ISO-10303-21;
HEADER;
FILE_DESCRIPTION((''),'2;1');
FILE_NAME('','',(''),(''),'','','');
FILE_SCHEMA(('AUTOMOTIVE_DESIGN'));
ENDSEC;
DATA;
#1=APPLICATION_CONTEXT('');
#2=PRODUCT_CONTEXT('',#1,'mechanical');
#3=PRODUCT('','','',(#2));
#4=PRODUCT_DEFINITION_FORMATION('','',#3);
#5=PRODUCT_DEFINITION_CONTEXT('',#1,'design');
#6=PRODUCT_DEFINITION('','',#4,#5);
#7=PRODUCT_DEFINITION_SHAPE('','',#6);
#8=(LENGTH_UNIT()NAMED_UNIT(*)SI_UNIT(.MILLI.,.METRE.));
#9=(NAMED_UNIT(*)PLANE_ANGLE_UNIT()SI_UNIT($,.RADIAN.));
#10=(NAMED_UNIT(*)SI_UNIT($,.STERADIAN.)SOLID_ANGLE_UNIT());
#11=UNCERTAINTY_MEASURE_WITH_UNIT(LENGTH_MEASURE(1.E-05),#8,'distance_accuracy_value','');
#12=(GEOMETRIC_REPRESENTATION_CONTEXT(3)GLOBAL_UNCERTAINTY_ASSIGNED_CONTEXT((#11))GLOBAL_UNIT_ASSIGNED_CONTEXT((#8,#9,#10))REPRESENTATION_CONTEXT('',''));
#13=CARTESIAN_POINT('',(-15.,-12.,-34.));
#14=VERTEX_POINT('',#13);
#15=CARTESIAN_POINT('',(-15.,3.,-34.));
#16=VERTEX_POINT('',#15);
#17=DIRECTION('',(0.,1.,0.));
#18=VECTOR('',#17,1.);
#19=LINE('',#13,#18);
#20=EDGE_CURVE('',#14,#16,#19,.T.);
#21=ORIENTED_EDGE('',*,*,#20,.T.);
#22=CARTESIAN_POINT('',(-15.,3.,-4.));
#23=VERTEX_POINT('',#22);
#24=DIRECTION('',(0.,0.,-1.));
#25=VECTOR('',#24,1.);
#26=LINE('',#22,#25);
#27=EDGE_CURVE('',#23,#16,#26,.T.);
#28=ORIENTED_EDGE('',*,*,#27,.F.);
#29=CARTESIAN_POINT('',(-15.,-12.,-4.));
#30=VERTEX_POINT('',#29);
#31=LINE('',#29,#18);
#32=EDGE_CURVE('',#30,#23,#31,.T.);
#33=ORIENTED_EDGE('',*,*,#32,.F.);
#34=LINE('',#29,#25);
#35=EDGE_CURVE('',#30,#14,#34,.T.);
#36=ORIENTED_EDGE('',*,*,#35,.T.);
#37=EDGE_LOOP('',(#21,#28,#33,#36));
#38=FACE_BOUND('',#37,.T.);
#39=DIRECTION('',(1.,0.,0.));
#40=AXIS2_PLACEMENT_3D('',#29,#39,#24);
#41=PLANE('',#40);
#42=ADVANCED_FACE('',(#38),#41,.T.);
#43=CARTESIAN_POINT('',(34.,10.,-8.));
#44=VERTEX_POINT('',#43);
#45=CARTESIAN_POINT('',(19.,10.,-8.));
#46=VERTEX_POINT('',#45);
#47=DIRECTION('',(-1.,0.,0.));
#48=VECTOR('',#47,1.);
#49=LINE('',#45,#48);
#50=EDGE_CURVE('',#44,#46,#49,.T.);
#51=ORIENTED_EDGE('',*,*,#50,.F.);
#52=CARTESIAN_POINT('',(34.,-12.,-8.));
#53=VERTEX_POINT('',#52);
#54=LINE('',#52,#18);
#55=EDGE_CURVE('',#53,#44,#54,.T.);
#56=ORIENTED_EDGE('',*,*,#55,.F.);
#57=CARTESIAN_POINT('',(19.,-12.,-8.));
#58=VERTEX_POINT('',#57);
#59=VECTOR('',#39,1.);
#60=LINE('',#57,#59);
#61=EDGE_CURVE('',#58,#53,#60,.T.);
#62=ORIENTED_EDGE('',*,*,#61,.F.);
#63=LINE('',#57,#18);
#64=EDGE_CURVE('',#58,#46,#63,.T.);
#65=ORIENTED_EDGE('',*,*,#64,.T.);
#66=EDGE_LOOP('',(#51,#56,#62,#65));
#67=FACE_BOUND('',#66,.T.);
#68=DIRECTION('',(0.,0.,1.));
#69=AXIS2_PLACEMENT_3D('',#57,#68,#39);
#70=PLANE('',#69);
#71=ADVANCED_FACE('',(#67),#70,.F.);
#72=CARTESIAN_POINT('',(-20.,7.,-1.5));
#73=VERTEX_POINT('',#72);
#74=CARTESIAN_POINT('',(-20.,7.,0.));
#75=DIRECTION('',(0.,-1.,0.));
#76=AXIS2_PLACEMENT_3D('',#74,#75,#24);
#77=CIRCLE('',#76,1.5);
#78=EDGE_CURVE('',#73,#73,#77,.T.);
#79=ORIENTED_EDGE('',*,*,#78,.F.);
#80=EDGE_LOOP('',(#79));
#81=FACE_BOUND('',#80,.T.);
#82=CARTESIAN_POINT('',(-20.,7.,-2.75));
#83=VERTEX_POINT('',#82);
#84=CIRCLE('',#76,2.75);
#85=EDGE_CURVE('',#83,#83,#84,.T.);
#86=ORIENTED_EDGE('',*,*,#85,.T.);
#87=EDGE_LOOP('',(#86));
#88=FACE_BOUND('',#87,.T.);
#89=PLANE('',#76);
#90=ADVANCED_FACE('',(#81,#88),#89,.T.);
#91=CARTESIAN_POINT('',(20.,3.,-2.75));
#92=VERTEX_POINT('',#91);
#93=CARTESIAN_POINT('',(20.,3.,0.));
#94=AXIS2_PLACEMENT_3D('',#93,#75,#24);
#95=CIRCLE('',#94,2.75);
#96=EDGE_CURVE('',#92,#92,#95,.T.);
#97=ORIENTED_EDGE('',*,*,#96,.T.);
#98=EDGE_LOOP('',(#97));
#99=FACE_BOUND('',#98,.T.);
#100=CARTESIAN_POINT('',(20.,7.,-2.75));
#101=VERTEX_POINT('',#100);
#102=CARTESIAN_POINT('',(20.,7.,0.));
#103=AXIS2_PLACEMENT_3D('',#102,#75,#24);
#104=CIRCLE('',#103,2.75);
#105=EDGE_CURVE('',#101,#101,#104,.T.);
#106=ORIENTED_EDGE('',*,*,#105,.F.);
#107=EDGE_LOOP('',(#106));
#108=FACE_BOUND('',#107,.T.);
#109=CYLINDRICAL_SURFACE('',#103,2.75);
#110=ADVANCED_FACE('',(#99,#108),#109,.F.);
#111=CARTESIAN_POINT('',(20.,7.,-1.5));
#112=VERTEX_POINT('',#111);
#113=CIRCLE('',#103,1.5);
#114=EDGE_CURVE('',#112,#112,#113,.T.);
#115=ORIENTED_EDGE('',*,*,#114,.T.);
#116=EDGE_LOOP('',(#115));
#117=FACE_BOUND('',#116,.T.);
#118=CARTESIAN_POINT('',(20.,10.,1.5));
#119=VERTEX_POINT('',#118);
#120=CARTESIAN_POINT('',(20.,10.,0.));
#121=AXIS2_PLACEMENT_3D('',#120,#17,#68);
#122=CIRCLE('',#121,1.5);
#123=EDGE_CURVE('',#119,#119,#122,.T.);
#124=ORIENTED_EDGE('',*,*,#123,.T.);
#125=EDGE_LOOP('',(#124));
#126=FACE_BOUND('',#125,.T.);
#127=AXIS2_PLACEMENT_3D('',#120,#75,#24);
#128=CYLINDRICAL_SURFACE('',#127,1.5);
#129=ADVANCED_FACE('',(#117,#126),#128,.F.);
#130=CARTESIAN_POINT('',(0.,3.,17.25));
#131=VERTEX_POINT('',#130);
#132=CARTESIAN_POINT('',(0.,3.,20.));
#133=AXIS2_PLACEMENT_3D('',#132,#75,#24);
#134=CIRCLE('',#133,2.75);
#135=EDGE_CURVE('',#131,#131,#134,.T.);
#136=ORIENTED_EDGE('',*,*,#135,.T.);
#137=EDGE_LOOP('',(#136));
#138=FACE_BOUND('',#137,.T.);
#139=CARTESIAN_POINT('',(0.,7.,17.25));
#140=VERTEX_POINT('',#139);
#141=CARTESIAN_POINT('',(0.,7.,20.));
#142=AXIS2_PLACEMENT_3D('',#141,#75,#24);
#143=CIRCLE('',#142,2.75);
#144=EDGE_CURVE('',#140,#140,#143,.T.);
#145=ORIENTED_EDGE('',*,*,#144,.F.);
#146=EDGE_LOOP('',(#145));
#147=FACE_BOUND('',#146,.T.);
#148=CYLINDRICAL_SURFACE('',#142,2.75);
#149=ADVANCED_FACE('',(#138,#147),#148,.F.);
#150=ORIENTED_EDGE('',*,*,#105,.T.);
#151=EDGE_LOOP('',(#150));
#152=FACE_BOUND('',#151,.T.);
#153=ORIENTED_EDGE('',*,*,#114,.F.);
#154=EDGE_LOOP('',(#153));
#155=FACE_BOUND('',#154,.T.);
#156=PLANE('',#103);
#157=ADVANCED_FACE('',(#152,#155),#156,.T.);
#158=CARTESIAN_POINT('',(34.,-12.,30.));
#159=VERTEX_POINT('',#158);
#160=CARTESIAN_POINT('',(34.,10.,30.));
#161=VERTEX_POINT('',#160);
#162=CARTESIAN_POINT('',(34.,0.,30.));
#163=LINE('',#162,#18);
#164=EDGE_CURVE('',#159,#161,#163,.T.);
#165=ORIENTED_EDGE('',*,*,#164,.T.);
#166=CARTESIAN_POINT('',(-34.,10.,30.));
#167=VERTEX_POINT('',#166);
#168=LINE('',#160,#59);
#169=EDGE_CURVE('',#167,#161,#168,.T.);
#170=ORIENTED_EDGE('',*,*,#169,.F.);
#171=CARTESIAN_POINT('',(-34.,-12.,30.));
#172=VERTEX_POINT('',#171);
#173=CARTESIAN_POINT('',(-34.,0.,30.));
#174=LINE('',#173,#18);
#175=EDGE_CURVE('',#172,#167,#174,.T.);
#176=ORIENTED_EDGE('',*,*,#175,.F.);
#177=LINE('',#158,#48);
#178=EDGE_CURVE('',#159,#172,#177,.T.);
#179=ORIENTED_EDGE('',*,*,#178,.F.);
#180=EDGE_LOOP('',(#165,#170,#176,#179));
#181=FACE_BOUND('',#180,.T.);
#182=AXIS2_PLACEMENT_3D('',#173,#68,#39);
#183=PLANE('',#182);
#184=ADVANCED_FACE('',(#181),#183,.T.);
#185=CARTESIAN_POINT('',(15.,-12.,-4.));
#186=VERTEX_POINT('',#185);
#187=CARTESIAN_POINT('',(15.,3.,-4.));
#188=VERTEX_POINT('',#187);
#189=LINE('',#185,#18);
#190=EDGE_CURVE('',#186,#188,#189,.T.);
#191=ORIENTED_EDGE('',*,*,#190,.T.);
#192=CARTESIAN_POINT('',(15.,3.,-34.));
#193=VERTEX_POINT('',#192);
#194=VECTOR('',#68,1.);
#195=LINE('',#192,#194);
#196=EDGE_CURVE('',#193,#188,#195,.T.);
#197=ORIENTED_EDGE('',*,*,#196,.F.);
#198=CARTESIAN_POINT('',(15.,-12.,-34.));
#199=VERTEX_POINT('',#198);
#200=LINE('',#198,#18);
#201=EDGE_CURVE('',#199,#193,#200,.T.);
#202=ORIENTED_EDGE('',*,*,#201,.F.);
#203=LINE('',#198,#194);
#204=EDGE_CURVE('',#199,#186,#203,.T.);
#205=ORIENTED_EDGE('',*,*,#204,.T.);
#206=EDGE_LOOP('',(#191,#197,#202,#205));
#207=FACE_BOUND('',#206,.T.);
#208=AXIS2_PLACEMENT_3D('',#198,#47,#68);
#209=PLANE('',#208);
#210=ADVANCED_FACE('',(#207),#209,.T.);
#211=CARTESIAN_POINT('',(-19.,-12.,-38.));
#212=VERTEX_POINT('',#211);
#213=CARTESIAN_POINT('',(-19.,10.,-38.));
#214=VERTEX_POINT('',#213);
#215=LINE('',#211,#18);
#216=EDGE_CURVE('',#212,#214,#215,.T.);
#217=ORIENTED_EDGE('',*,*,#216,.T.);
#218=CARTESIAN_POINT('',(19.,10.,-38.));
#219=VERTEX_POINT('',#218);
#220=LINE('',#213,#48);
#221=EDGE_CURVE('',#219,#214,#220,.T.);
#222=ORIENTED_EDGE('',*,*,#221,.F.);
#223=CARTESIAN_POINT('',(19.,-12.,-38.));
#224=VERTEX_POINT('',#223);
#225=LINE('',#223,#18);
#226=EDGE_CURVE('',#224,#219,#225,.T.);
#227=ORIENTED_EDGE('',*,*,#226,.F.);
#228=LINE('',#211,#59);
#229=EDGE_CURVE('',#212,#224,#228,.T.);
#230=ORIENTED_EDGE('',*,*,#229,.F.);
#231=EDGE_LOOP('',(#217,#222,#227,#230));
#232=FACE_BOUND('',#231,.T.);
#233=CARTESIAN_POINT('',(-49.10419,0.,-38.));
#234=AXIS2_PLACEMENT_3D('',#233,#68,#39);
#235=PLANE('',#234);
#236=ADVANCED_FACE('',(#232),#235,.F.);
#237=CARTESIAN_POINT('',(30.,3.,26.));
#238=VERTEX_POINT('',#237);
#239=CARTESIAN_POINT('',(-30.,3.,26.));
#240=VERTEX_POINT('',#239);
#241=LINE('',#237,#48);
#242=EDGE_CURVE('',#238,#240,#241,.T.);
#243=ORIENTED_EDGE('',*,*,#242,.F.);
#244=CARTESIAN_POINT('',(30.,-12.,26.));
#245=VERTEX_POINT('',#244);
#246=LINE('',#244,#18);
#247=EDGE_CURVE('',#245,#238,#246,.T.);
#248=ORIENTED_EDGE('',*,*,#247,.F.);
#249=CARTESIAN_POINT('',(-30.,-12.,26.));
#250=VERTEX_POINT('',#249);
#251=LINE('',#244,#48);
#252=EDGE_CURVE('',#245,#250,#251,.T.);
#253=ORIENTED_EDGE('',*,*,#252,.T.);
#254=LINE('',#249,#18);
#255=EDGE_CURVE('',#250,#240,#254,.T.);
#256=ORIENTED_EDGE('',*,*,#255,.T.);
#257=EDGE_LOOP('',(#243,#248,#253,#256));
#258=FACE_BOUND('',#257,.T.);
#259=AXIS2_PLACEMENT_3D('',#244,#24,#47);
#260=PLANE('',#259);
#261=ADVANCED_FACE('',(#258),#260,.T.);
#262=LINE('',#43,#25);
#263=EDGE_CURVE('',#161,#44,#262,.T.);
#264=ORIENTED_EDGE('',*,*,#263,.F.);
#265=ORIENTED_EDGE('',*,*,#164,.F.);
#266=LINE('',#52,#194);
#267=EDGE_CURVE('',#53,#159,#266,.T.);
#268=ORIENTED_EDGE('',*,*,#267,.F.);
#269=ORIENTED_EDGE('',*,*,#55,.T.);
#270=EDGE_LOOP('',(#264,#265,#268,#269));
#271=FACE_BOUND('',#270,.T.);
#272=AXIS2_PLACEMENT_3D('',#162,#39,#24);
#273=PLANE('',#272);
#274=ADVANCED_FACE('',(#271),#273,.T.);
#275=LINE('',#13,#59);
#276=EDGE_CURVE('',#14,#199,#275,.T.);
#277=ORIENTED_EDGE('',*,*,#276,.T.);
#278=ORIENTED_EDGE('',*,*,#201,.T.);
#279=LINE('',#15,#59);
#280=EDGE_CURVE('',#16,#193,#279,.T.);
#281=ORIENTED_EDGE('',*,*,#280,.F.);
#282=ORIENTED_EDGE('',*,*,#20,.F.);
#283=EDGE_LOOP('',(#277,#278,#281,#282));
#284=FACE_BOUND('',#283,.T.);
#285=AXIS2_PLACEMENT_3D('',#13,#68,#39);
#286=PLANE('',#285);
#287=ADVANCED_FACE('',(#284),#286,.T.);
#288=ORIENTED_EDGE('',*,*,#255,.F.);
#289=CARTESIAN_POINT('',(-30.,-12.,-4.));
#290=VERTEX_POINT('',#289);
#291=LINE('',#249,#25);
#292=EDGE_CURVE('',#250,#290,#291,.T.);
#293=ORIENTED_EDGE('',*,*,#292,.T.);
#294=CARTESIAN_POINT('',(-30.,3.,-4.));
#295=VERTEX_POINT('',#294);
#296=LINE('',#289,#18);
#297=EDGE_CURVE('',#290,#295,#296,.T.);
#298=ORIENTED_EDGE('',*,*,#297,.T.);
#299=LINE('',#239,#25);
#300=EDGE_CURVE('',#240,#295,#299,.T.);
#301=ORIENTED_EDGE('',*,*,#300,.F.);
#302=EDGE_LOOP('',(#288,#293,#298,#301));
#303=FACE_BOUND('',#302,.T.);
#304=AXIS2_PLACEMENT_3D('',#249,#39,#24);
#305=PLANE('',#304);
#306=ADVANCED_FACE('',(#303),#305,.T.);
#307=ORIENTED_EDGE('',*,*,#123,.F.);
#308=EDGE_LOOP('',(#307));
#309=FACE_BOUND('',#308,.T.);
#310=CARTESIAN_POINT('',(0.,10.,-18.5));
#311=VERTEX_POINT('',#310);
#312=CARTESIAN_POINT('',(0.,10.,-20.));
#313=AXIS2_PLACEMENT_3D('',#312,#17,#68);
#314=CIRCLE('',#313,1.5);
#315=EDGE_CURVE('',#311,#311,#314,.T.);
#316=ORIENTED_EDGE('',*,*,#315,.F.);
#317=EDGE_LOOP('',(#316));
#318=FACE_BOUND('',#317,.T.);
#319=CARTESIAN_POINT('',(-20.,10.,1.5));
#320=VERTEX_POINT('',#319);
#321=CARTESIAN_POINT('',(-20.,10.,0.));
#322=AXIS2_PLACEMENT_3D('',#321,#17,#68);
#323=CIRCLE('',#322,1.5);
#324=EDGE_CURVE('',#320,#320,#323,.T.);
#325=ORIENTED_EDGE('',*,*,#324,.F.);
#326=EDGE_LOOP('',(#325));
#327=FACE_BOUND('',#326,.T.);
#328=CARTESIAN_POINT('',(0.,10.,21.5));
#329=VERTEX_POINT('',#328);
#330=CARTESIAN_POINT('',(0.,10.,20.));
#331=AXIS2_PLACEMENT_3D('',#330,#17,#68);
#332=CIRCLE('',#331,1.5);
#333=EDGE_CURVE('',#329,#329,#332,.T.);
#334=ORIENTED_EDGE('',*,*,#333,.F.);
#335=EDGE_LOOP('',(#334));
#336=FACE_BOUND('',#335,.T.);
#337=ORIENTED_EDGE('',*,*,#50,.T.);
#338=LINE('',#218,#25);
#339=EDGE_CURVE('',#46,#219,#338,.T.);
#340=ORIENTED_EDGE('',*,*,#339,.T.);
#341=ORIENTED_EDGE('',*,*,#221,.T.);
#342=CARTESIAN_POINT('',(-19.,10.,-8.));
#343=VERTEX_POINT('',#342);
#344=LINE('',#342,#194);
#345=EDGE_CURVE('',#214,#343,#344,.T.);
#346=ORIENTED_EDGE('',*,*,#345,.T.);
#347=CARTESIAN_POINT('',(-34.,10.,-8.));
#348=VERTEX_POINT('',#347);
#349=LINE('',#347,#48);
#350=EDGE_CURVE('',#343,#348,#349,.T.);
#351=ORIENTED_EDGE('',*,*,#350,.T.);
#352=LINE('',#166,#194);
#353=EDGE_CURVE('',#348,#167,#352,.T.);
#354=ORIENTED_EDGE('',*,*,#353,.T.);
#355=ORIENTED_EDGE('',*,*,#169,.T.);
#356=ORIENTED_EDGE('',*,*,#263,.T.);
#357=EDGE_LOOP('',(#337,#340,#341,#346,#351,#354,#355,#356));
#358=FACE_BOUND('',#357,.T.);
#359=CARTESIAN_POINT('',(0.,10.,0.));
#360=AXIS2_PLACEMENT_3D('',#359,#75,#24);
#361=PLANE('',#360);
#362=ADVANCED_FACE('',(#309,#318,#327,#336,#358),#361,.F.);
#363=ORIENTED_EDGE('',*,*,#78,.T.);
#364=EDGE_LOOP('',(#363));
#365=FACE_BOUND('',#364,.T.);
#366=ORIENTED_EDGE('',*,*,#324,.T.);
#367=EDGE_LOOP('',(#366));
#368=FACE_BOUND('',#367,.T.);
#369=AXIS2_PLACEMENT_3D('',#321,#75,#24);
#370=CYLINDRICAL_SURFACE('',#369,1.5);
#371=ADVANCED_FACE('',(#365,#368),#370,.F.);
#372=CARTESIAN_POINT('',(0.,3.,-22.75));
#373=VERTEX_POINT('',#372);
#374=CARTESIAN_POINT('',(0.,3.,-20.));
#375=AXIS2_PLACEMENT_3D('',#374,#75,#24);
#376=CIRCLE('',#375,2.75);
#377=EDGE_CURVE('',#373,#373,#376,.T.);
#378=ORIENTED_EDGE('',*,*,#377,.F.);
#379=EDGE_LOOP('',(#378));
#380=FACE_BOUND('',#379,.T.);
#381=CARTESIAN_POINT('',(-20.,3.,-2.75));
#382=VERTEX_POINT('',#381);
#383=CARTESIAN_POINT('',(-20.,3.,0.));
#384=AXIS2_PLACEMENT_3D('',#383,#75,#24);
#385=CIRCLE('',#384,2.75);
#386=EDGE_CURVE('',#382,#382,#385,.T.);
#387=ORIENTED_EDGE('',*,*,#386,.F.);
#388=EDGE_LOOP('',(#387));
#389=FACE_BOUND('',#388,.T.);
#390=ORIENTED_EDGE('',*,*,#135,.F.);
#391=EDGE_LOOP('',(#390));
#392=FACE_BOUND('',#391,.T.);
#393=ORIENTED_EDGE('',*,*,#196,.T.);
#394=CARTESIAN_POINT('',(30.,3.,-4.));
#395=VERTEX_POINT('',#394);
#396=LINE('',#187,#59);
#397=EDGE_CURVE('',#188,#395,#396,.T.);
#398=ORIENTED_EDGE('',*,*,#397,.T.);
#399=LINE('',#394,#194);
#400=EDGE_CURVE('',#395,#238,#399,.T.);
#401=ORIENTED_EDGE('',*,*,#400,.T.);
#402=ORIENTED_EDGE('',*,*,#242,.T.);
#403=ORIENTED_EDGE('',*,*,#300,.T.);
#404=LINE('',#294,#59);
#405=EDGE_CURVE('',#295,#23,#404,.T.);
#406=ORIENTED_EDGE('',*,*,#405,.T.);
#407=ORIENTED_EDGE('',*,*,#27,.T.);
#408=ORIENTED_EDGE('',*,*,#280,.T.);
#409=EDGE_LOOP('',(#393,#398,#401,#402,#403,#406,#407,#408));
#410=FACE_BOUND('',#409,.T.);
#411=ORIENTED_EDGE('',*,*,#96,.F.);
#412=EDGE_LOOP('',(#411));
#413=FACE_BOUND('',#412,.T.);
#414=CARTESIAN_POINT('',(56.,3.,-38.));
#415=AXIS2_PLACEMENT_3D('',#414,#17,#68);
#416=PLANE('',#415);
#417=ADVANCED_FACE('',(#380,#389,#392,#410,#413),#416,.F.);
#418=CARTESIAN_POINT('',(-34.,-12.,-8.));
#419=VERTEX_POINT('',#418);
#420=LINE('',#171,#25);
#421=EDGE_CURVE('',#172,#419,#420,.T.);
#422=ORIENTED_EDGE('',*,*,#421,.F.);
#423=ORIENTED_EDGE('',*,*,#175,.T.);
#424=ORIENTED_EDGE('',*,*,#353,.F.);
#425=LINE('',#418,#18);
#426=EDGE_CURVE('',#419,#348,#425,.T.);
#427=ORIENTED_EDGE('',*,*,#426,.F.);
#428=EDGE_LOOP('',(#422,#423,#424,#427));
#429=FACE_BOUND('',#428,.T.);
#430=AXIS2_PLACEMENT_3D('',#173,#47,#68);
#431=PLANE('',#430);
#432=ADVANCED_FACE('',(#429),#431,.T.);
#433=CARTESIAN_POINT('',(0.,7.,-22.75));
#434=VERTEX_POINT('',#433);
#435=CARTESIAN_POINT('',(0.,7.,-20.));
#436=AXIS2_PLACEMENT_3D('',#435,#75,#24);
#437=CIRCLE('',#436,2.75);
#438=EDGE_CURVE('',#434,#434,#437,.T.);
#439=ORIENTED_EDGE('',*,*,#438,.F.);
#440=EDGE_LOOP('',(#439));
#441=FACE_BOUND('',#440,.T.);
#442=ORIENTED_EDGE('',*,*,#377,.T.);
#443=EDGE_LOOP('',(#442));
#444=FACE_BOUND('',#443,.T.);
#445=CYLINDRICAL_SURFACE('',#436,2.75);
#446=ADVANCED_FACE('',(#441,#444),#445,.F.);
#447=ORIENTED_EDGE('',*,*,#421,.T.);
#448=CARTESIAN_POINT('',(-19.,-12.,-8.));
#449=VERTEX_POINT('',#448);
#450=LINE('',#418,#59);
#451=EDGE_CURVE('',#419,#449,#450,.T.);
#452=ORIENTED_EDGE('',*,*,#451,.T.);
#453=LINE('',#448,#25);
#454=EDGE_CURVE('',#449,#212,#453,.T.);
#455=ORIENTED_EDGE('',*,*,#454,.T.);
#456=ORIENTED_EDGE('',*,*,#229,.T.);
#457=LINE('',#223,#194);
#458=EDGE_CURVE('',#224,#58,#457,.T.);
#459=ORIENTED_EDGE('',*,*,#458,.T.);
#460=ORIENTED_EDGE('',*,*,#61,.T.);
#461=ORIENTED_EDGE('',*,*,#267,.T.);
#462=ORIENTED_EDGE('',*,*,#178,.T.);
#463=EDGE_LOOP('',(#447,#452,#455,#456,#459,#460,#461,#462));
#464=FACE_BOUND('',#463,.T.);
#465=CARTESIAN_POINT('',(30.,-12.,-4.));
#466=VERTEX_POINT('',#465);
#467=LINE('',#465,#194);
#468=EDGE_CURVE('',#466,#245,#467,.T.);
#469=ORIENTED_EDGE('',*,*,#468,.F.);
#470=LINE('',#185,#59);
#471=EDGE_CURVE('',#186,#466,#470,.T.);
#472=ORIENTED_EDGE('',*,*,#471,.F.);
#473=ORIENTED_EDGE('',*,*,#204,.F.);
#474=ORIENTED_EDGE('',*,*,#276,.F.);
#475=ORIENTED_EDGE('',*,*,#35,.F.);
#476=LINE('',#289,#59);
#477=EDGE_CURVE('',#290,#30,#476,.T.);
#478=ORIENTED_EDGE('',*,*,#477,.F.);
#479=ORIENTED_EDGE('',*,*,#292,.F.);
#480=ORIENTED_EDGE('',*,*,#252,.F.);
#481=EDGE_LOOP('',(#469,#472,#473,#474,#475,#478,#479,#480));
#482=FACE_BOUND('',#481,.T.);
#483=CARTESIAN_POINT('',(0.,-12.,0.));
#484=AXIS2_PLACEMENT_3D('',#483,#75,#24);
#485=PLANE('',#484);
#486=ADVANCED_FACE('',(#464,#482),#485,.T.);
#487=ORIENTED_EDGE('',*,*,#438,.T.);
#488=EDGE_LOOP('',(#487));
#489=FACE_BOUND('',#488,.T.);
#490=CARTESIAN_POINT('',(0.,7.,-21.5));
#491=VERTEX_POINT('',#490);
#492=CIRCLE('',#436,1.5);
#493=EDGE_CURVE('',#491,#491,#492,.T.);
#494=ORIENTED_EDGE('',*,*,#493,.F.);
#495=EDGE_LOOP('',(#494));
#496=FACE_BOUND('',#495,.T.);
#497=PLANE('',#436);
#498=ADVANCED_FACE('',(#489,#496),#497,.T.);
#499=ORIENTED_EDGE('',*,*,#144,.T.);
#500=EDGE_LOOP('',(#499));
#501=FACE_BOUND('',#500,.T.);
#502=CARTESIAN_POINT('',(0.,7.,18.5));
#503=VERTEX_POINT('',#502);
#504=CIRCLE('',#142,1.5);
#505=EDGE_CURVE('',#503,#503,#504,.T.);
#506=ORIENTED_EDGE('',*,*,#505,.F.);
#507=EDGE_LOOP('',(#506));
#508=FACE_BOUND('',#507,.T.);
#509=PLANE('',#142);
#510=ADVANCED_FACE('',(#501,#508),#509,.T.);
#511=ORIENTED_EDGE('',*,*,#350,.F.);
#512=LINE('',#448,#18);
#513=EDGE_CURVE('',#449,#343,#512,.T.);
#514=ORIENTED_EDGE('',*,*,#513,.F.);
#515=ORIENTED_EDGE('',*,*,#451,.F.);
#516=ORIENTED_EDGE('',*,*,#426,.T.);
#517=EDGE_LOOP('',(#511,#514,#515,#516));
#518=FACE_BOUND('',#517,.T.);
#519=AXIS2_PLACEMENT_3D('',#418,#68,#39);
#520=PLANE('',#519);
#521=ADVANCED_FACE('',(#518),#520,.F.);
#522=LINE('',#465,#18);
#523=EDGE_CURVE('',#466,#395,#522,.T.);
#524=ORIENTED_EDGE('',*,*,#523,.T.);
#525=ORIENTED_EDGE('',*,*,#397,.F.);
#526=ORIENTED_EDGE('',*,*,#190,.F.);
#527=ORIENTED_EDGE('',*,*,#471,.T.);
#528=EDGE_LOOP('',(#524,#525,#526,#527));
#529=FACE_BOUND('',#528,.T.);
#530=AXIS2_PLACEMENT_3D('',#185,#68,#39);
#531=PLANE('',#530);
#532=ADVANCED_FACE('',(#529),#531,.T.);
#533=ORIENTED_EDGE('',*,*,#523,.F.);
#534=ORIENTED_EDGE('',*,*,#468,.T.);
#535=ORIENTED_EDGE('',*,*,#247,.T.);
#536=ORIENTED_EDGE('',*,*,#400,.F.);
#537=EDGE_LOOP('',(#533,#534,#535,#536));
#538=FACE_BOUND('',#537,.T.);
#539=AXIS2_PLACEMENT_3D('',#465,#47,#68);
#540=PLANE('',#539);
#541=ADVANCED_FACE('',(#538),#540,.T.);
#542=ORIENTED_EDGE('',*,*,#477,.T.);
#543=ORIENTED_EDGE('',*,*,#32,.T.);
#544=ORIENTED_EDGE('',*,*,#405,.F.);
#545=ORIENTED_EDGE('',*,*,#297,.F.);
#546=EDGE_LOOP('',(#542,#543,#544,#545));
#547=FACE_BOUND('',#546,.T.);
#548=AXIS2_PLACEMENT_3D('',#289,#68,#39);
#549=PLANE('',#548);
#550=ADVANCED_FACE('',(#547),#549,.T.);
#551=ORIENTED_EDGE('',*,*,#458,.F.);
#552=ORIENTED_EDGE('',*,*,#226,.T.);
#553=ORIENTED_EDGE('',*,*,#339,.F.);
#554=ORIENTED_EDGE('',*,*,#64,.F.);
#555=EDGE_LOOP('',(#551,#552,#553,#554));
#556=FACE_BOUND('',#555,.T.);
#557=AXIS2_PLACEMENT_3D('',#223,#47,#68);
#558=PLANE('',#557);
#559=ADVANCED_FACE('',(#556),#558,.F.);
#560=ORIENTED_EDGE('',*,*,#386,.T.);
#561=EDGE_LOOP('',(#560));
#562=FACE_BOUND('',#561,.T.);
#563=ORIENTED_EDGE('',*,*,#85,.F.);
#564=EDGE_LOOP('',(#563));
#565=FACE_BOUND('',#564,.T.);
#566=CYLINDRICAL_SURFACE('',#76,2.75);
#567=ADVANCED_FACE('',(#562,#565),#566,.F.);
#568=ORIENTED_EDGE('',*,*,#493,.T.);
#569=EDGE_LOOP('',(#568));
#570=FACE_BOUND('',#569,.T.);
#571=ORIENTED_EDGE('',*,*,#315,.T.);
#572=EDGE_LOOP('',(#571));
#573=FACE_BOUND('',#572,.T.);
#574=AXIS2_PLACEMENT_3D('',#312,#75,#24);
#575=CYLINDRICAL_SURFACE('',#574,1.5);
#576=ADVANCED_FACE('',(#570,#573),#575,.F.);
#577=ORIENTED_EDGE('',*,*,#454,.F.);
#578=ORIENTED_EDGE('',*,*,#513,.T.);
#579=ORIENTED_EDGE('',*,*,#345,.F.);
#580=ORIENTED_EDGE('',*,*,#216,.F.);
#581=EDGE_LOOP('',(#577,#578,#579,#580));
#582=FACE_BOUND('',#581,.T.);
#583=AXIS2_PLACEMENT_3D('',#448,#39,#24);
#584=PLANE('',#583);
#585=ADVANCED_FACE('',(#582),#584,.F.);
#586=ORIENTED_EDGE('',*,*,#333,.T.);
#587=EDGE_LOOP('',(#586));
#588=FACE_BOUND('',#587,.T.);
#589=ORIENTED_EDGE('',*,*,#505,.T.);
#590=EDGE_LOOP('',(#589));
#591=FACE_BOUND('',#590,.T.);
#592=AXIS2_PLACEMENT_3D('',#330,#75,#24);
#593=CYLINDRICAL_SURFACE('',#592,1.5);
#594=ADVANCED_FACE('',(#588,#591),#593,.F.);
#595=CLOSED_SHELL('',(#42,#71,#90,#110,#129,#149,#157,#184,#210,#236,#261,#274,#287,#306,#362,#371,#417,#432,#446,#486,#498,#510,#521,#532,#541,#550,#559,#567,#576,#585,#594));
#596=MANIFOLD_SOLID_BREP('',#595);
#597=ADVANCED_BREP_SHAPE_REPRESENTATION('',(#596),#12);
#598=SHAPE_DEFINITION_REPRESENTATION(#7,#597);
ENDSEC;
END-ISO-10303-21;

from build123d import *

# Parameters (mm, degrees)
CROQUIS3_R               = 11
SALIENTE_EXTRUIR1_DEPTH  = 6
CROQUIS5_R               = 1.7
CORTAR_EXTRUIR2_DEPTH    = 62.100641025
SALIENTE_EXTRUIR2_START  = -6
CROQUIS6_R               = 11
CROQUIS6_R_2             = 10.875
SALIENTE_EXTRUIR2_DEPTH  = 6
SALIENTE_EXTRUIR3_START  = -6
CROQUIS7_R               = 10.875
SALIENTE_EXTRUIR3_DEPTH  = 6
CROQUIS8_W               = 68
CROQUIS8_H               = 4
SALIENTE_EXTRUIR5_DEPTH  = 6
CROQUIS9_W               = 88.033568274
CROQUIS9_H               = 18.476688198
CORTAR_EXTRUIR3_DEPTH    = 6
CROQUIS10_W              = 21.550300015
CROQUIS10_H              = 64
CORTAR_EXTRUIR4_DEPTH    = 6
CROQUIS11_W              = 19.085610936
CROQUIS11_H              = 64
CORTAR_EXTRUIR5_DEPTH    = 6
CROQUIS12_W              = 103.706532793
CROQUIS12_H              = 25.59484813
CORTAR_EXTRUIR6_DEPTH    = 6
SALIENTE_EXTRUIR7_DEPTH  = 6
SALIENTE_EXTRUIR8_START  = -6
SALIENTE_EXTRUIR8_DEPTH  = 6
CROQUIS15_W              = 68
CROQUIS15_H              = 3
CORTAR_EXTRUIR7_DEPTH    = 90
SALIENTE_EXTRUIR9_DEPTH  = 15
CROQUIS17_W              = 15
CROQUIS17_H              = 30
CORTAR_EXTRUIR8_DEPTH    = 15
CROQUIS18_W              = 23.220677269
CROQUIS18_H              = 33.839021269
CORTAR_EXTRUIR10_DEPTH   = 15
CROQUIS19_R              = 1.5
SALIENTE_EXTRUIR10_DEPTH = 4
CROQUIS20_R              = 2.75
CORTAR_EXTRUIR12_DEPTH   = 4


with BuildPart() as part:
    # Croquis3 → Saliente-Extruir1 (new body)
    with BuildSketch(Plane(origin=(0, 0, 0), x_dir=(1, 0, 0), z_dir=(0, 1, 0))):
        with BuildLine():
            ThreePointArc((-42.801000552, 4.132112265), (-40.664966724, 3.179307113), (-38.41511618, 2.540049182))
            ThreePointArc((-38.41511618, 2.540049182), (-38.470748704, 1.474616944), (-38.496837459, 0.408052268))
            ThreePointArc((-38.496837459, 0.408052268), (-40.789021211, -0.057105575), (-42.991724013, -0.843603213))
            ThreePointArc((-42.991724013, -0.843603213), (-42.968445785, -1.647017549), (-42.930154943, -2.449856438))
            ThreePointArc((-42.930154943, -2.449856438), (-40.673709502, -3.065431082), (-38.352643988, -3.353759106))
            ThreePointArc((-38.352643988, -3.353759106), (-38.244987054, -4.415197194), (-38.107959725, -5.473244614))
            ThreePointArc((-38.107959725, -5.473244614), (-40.302274043, -6.282851213), (-42.3591038, -7.396372439))
            ThreePointArc((-42.3591038, -7.396372439), (-42.21345776, -8.186817694), (-42.053062888, -8.974402582))
            ThreePointArc((-42.053062888, -8.974402582), (-39.729095003, -9.238318171), (-37.391218326, -9.168958123))
            ThreePointArc((-37.391218326, -9.168958123), (-37.122795321, -10.201522853), (-36.825863714, -11.226253282))
            ThreePointArc((-36.825863714, -11.226253282), (-38.87087573, -12.361332145), (-40.733622096, -13.775776963))
            ThreePointArc((-40.733622096, -13.775776963), (-40.469022063, -14.534725772), (-40.190282682, -15.288596336))
            ThreePointArc((-40.190282682, -15.288596336), (-37.85326419, -15.194666912), (-35.553374199, -14.769244533))
            ThreePointArc((-35.553374199, -14.769244533), (-35.130476731, -15.748733462), (-34.680600669, -16.716128087))
            ThreePointArc((-34.680600669, -16.716128087), (-36.528377035, -18.150073928), (-38.153378814, -19.832288952))
            ThreePointArc((-38.153378814, -19.832288952), (-37.776026789, -20.541952196), (-37.385476313, -21.24443835))
            ThreePointArc((-37.385476313, -21.24443835), (-35.090184947, -20.794865539), (-32.882189114, -20.023352369))
            ThreePointArc((-32.882189114, -20.023352369), (-32.314729541, -20.926807107), (-31.722453739, -21.814191019))
            ThreePointArc((-31.722453739, -21.814191019), (-33.329684142, -23.513393361), (-34.67885267, -25.423948896))
            ThreePointArc((-34.67885267, -25.423948896), (-34.197593465, -26.067692672), (-33.704386066, -26.702328735))
            ThreePointArc((-33.704386066, -26.702328735), (-31.50462151, -25.907650142), (-29.440273385, -24.808129797))
            ThreePointArc((-29.440273385, -24.808129797), (-28.741552479, -25.614374131), (-28.020759379, -26.400947801))
            ThreePointArc((-28.020759379, -26.400947801), (-29.349771703, -28.325578783), (-30.391483612, -30.419693027))
            ThreePointArc((-30.391483612, -30.419693027), (-29.817597534, -30.982428525), (-29.233293577, -31.534339166))
            ThreePointArc((-29.233293577, -31.534339166), (-27.180616447, -30.413181385), (-25.308302601, -29.011425688))
            ThreePointArc((-25.308302601, -29.011425688), (-24.494697787, -29.701561934), (-23.66228217, -30.368888744))
            ThreePointArc((-23.66228217, -30.368888744), (-24.68192549, -32.473836646), (-25.391763937, -34.702425336))
            ThreePointArc((-25.391763937, -34.702425336), (-24.738702389, -35.170962513), (-24.076997462, -35.627211415))
            ThreePointArc((-24.076997462, -35.627211415), (-22.219520771, -34.205853433), (-20.583126654, -32.53471835))
            ThreePointArc((-20.583126654, -32.53471835), (-19.67370814, -33.092570299), (-18.749181121, -33.625008674))
            ThreePointArc((-18.749181121, -33.625008674), (-19.435555863, -35.860935301), (-19.796882836, -38.171762207))
            ThreePointArc((-19.796882836, -38.171762207), (-19.079953028, -38.535118949), (-18.356356934, -38.885012024))
            ThreePointArc((-18.356356934, -38.885012024), (-16.737618362, -37.196769268), (-15.375499664, -35.29542479))
            ThreePointArc((-15.375499664, -35.29542479), (-14.391583449, -35.707916865), (-13.396615158, -36.092986899))
            ThreePointArc((-13.396615158, -36.092986899), (-13.73363328, -38.407484027), (-13.73797958, -40.746385325))
            ThreePointArc((-13.73797958, -40.746385325), (-12.97398574, -40.996044858), (-12.205458958, -41.231380909))
            ThreePointArc((-12.205458958, -41.231380909), (-10.863400364, -39.315824358), (-9.807483994, -37.228836387))
            ThreePointArc((-9.807483994, -37.228836387), (-8.772132239, -37.486300124), (-7.73004389, -37.714976103))
            ThreePointArc((-7.73004389, -37.714976103), (-7.709805972, -40.053793881), (-7.357069727, -42.365947706))
            ThreePointArc((-7.357069727, -42.365947706), (-6.563919221, -42.496058223), (-5.768475368, -42.611321171))
            ThreePointArc((-5.768475368, -42.611321171), (-4.734553468, -40.513349847), (-4.009589211, -38.289635613))
            ThreePointArc((-4.009589211, -38.289635613), (-2.947069685, -38.38603628), (-1.882286945, -38.452958233))
            ThreePointArc((-1.882286945, -38.452958233), (-1.505267347, -40.761276754), (-0.803716395, -42.992488181))
            ThreePointArc((-0.803716395, -42.992488181), (0, -43), (0.803716395, -42.992488181))
            ThreePointArc((0.803716395, -42.992488181), (1.505267347, -40.761276754), (1.882286945, -38.452958233))
            ThreePointArc((1.882286945, -38.452958233), (2.947069685, -38.38603628), (4.009589211, -38.289635613))
            ThreePointArc((4.009589211, -38.289635613), (4.734553468, -40.513349847), (5.768475368, -42.611321171))
            ThreePointArc((5.768475368, -42.611321171), (6.563919221, -42.496058223), (7.357069727, -42.365947706))
            ThreePointArc((7.357069727, -42.365947706), (7.709805972, -40.053793881), (7.73004389, -37.714976103))
            ThreePointArc((7.73004389, -37.714976103), (8.772132239, -37.486300124), (9.807483994, -37.228836387))
            ThreePointArc((9.807483994, -37.228836387), (10.863400364, -39.315824358), (12.205458958, -41.231380909))
            ThreePointArc((12.205458958, -41.231380909), (12.97398574, -40.996044858), (13.73797958, -40.746385325))
            ThreePointArc((13.73797958, -40.746385325), (13.73363328, -38.407484027), (13.396615158, -36.092986899))
            ThreePointArc((13.396615158, -36.092986899), (14.391583449, -35.707916865), (15.375499664, -35.29542479))
            ThreePointArc((15.375499664, -35.29542479), (16.737618362, -37.196769268), (18.356356934, -38.885012024))
            ThreePointArc((18.356356934, -38.885012024), (19.079953028, -38.535118949), (19.796882836, -38.171762207))
            ThreePointArc((19.796882836, -38.171762207), (19.435555863, -35.860935301), (18.749181121, -33.625008674))
            ThreePointArc((18.749181121, -33.625008674), (19.67370814, -33.092570299), (20.583126654, -32.53471835))
            ThreePointArc((20.583126654, -32.53471835), (22.219520771, -34.205853433), (24.076997462, -35.627211415))
            ThreePointArc((24.076997462, -35.627211415), (24.738702389, -35.170962513), (25.391763937, -34.702425336))
            ThreePointArc((25.391763937, -34.702425336), (24.68192549, -32.473836646), (23.66228217, -30.368888744))
            ThreePointArc((23.66228217, -30.368888744), (24.494697787, -29.701561934), (25.308302601, -29.011425688))
            ThreePointArc((25.308302601, -29.011425688), (27.180616447, -30.413181385), (29.233293577, -31.534339166))
            ThreePointArc((29.233293577, -31.534339166), (29.817597534, -30.982428525), (30.391483612, -30.419693027))
            ThreePointArc((30.391483612, -30.419693027), (29.349771703, -28.325578783), (28.020759379, -26.400947801))
            ThreePointArc((28.020759379, -26.400947801), (28.741552479, -25.614374131), (29.440273385, -24.808129797))
            ThreePointArc((29.440273385, -24.808129797), (31.50462151, -25.907650142), (33.704386066, -26.702328735))
            ThreePointArc((33.704386066, -26.702328735), (34.197593465, -26.067692672), (34.67885267, -25.423948896))
            ThreePointArc((34.67885267, -25.423948896), (33.329684142, -23.513393361), (31.722453739, -21.814191019))
            ThreePointArc((31.722453739, -21.814191019), (32.314729541, -20.926807107), (32.882189114, -20.023352369))
            ThreePointArc((32.882189114, -20.023352369), (35.090184947, -20.794865539), (37.385476313, -21.24443835))
            ThreePointArc((37.385476313, -21.24443835), (37.776026789, -20.541952196), (38.153378814, -19.832288952))
            ThreePointArc((38.153378814, -19.832288952), (36.528377035, -18.150073928), (34.680600669, -16.716128087))
            ThreePointArc((34.680600669, -16.716128087), (35.130476731, -15.748733462), (35.553374199, -14.769244533))
            ThreePointArc((35.553374199, -14.769244533), (37.85326419, -15.194666912), (40.190282682, -15.288596336))
            ThreePointArc((40.190282682, -15.288596336), (40.469022063, -14.534725772), (40.733622096, -13.775776963))
            ThreePointArc((40.733622096, -13.775776963), (38.87087573, -12.361332145), (36.825863714, -11.226253282))
            ThreePointArc((36.825863714, -11.226253282), (37.122795321, -10.201522853), (37.391218326, -9.168958123))
            ThreePointArc((37.391218326, -9.168958123), (39.729095003, -9.238318171), (42.053062888, -8.974402582))
            ThreePointArc((42.053062888, -8.974402582), (42.21345776, -8.186817694), (42.3591038, -7.396372439))
            ThreePointArc((42.3591038, -7.396372439), (40.302274043, -6.282851213), (38.107959725, -5.473244614))
            ThreePointArc((38.107959725, -5.473244614), (38.244987054, -4.415197194), (38.352643988, -3.353759106))
            ThreePointArc((38.352643988, -3.353759106), (40.673709502, -3.065431082), (42.930154943, -2.449856438))
            ThreePointArc((42.930154943, -2.449856438), (42.968445785, -1.647017549), (42.991724013, -0.843603213))
            ThreePointArc((42.991724013, -0.843603213), (40.789021211, -0.057105575), (38.496837459, 0.408052268))
            ThreePointArc((38.496837459, 0.408052268), (38.470748704, 1.474616944), (38.41511618, 2.540049182))
            ThreePointArc((38.41511618, 2.540049182), (40.664966724, 3.179307113), (42.801000552, 4.132112265))
            ThreePointArc((42.801000552, 4.132112265), (42.71628986, 4.931387292), (42.616654653, 5.728939357))
            ThreePointArc((42.616654653, 5.728939357), (40.319708293, 6.16997857), (37.983381952, 6.279784751))
            ThreePointArc((37.983381952, 6.279784751), (37.794788612, 7.329867312), (37.577170609, 8.37432087))
            ThreePointArc((37.577170609, 8.37432087), (39.703071592, 9.349525044), (41.668626984, 10.617227758))
            ThreePointArc((41.668626984, 10.617227758), (41.462900304, 11.394204594), (41.242687029, 12.167200444))
            ThreePointArc((41.242687029, 12.167200444), (38.905335586, 12.252443647), (36.579628164, 12.004324402))
            ThreePointArc((36.579628164, 12.004324402), (36.232950707, 13.013311802), (35.858448007, 14.012305575))
            ThreePointArc((35.858448007, 14.012305575), (37.810570112, 15.300598033), (39.559576116, 16.853484432))
            ThreePointArc((39.559576116, 16.853484432), (39.237655508, 17.589951398), (38.902025776, 18.320272666))
            ThreePointArc((38.902025776, 18.320272666), (36.579054788, 18.047721829), (34.318478896, 17.447492864))
            ThreePointArc((34.318478896, 17.447492864), (33.821843148, 18.391735293), (33.299233776, 19.321853713))
            ThreePointArc((33.299233776, 19.321853713), (35.031820916, 20.893037971), (36.523282314, 22.694709714))
            ThreePointArc((36.523282314, 22.694709714), (36.092713324, 23.37340465), (35.64953401, 24.043933223))
            ThreePointArc((35.64953401, 24.043933223), (33.395391948, 23.419976708), (31.25293357, 22.48170688))
            ThreePointArc((31.25293357, 22.48170688), (30.617980251, 23.339072097), (29.959513729, 24.178513977))
            ThreePointArc((29.959513729, 24.178513977), (31.431955529, 25.995762808), (32.63091373, 28.003990237))
            ThreePointArc((32.63091373, 28.003990237), (32.101788529, 28.609005107), (31.561447383, 29.204024365))
            ThreePointArc((31.561447383, 29.204024365), (29.428969426, 28.243287183), (27.45484597, 26.988968742))
            ThreePointArc((27.45484597, 26.988968742), (26.696457848, 27.739360832), (25.917568072, 28.468450366))
            ThreePointArc((25.917568072, 28.468450366), (27.095351745, 30.489168998), (27.973704184, 32.656880963))
            ThreePointArc((27.973704184, 32.656880963), (27.35842502, 33.174034732), (26.733587179, 33.679597927))
            ThreePointArc((26.733587179, 33.679597927), (24.772756803, 32.404598945), (23.013240049, 30.863632052))
            ThreePointArc((23.013240049, 30.863632052), (22.1491931, 31.48946246), (21.268136586, 32.091110407))
            ThreePointArc((21.268136586, 32.091110407), (22.123655881, 34.267934907), (22.660814722, 36.544322078))
            ThreePointArc((22.660814722, 36.544322078), (21.973803216, 36.9614931), (21.27911435, 37.36575026))
            ThreePointArc((21.27911435, 37.36575026), (19.535891757, 35.806374372), (18.032223288, 34.014877985))
            ThreePointArc((18.032223288, 34.014877985), (17.082770038, 34.501477777), (16.120198005, 34.961582019))
            ThreePointArc((16.120198005, 34.961582019), (16.633400275, 37.243489467), (16.816774969, 39.575195257))
            ThreePointArc((16.816774969, 39.575195257), (16.074134089, 39.882605397), (15.325877117, 40.176081076))
            ThreePointArc((15.325877117, 40.176081076), (13.841121966, 38.368878731), (12.628546495, 36.368844007))
            ThreePointArc((12.628546495, 36.368844007), (11.615941325, 36.704807698), (10.594415646, 37.012583781))
            ThreePointArc((10.594415646, 37.012583781), (10.753271864, 39.3460882), (10.578564264, 41.678459402))
            ThreePointArc((10.578564264, 41.678459402), (9.797700883, 41.868903227), (9.013414313, 42.044718603))
            ThreePointArc((9.013414313, 42.044718603), (7.821928008, 40.032049093), (6.928867276, 37.870355151))
            ThreePointArc((6.928867276, 37.870355151), (5.876844793, 38.047808035), (4.820309163, 38.196041949))
            ThreePointArc((4.820309163, 38.196041949), (4.621095874, 40.526447973), (4.092400979, 42.804815783))
            ThreePointArc((4.092400979, 42.804815783), (3.291617872, 42.873829451), (2.489684717, 42.927863562))
            ThreePointArc((2.489684717, 42.927863562), (1.619394686, 40.756902154), (1.066781281, 38.484217268))
            ThreePointArc((1.066781281, 38.484217268), (0, 38.499), (-1.066781281, 38.484217268))
            ThreePointArc((-1.066781281, 38.484217268), (-1.619394686, 40.756902154), (-2.489684717, 42.927863562))
            ThreePointArc((-2.489684717, 42.927863562), (-3.291617872, 42.873829451), (-4.092400979, 42.804815783))
            ThreePointArc((-4.092400979, 42.804815783), (-4.621095874, 40.526447973), (-4.820309163, 38.196041949))
            ThreePointArc((-4.820309163, 38.196041949), (-5.876844793, 38.047808035), (-6.928867276, 37.870355151))
            ThreePointArc((-6.928867276, 37.870355151), (-7.821928008, 40.032049093), (-9.013414313, 42.044718603))
            ThreePointArc((-9.013414313, 42.044718603), (-9.797700883, 41.868903227), (-10.578564264, 41.678459402))
            ThreePointArc((-10.578564264, 41.678459402), (-10.753271864, 39.3460882), (-10.594415646, 37.012583781))
            ThreePointArc((-10.594415646, 37.012583781), (-11.615941325, 36.704807698), (-12.628546495, 36.368844007))
            ThreePointArc((-12.628546495, 36.368844007), (-13.841121966, 38.368878731), (-15.325877117, 40.176081076))
            ThreePointArc((-15.325877117, 40.176081076), (-16.074134089, 39.882605397), (-16.816774969, 39.575195257))
            ThreePointArc((-16.816774969, 39.575195257), (-16.633400275, 37.243489467), (-16.120198005, 34.961582019))
            ThreePointArc((-16.120198005, 34.961582019), (-17.082770038, 34.501477777), (-18.032223288, 34.014877985))
            ThreePointArc((-18.032223288, 34.014877985), (-19.535891757, 35.806374372), (-21.27911435, 37.36575026))
            ThreePointArc((-21.27911435, 37.36575026), (-21.973803216, 36.9614931), (-22.660814722, 36.544322078))
            ThreePointArc((-22.660814722, 36.544322078), (-22.123655881, 34.267934907), (-21.268136586, 32.091110407))
            ThreePointArc((-21.268136586, 32.091110407), (-22.1491931, 31.48946246), (-23.013240049, 30.863632052))
            ThreePointArc((-23.013240049, 30.863632052), (-24.772756803, 32.404598945), (-26.733587179, 33.679597927))
            ThreePointArc((-26.733587179, 33.679597927), (-27.35842502, 33.174034732), (-27.973704184, 32.656880963))
            ThreePointArc((-27.973704184, 32.656880963), (-27.095351745, 30.489168998), (-25.917568072, 28.468450366))
            ThreePointArc((-25.917568072, 28.468450366), (-26.696457848, 27.739360832), (-27.45484597, 26.988968742))
            ThreePointArc((-27.45484597, 26.988968742), (-29.428969426, 28.243287183), (-31.561447383, 29.204024364))
            ThreePointArc((-31.561447383, 29.204024364), (-32.101788529, 28.609005107), (-32.63091373, 28.003990237))
            ThreePointArc((-32.63091373, 28.003990237), (-31.431955529, 25.995762808), (-29.959513729, 24.178513977))
            ThreePointArc((-29.959513729, 24.178513977), (-30.617980251, 23.339072097), (-31.25293357, 22.48170688))
            ThreePointArc((-31.25293357, 22.48170688), (-33.395391948, 23.419976708), (-35.64953401, 24.043933223))
            ThreePointArc((-35.64953401, 24.043933223), (-36.092713324, 23.37340465), (-36.523282314, 22.694709714))
            ThreePointArc((-36.523282314, 22.694709714), (-35.031820916, 20.893037971), (-33.299233776, 19.321853713))
            ThreePointArc((-33.299233776, 19.321853713), (-33.821843148, 18.391735293), (-34.318478896, 17.447492864))
            ThreePointArc((-34.318478896, 17.447492864), (-36.579054788, 18.047721829), (-38.902025776, 18.320272666))
            ThreePointArc((-38.902025776, 18.320272666), (-39.237655508, 17.589951398), (-39.559576116, 16.853484432))
            ThreePointArc((-39.559576116, 16.853484432), (-37.810570112, 15.300598033), (-35.858448007, 14.012305575))
            ThreePointArc((-35.858448007, 14.012305575), (-36.232950707, 13.013311802), (-36.579628164, 12.004324402))
            ThreePointArc((-36.579628164, 12.004324402), (-38.905335586, 12.252443647), (-41.242687029, 12.167200444))
            ThreePointArc((-41.242687029, 12.167200444), (-41.462900304, 11.394204594), (-41.668626984, 10.617227758))
            ThreePointArc((-41.668626984, 10.617227758), (-39.703071592, 9.349525044), (-37.577170609, 8.37432087))
            ThreePointArc((-37.577170609, 8.37432087), (-37.794788612, 7.329867312), (-37.983381952, 6.279784751))
            ThreePointArc((-37.983381952, 6.279784751), (-40.319708293, 6.16997857), (-42.616654653, 5.728939357))
            ThreePointArc((-42.616654653, 5.728939357), (-42.71628986, 4.931387292), (-42.801000552, 4.132112265))
        make_face()
        with Locations(Location((0, 0, 0), (0, 0, 270))):
            Circle(CROQUIS3_R, mode=Mode.SUBTRACT)
    extrude(amount=SALIENTE_EXTRUIR1_DEPTH)

    # Croquis5 → Cortar-Extruir2 (cut, through all)
    with BuildSketch(Plane(origin=(0, 6, 0), x_dir=(1, 0, 0), z_dir=(0, 1, 0))):
        with Locations(Location((0, 20, 0), (0, 0, 270))):
            Circle(CROQUIS5_R)
        with Locations(Location((20, 0, 0), (0, 0, 270))):
            Circle(CROQUIS5_R)
        with Locations(Location((0, -20, 0), (0, 0, 270))):
            Circle(CROQUIS5_R)
        with Locations(Location((-20, 0, 0), (0, 0, 270))):
            Circle(CROQUIS5_R)
    extrude(amount=-CORTAR_EXTRUIR2_DEPTH, mode=Mode.SUBTRACT)

    # Croquis6 → Saliente-Extruir2 (add)
    with BuildSketch(Plane(origin=(0, 6, 0), x_dir=(1, 0, 0), z_dir=(0, 1, 0)).offset(SALIENTE_EXTRUIR2_START)):
        Circle(CROQUIS6_R)
        with Locations(Location((0, 0, 0), (0, 0, 270))):
            Circle(CROQUIS6_R_2, mode=Mode.SUBTRACT)
    extrude(amount=SALIENTE_EXTRUIR2_DEPTH)

    # Croquis7 → Saliente-Extruir3 (add)
    with BuildSketch(Plane(origin=(0, 6, 0), x_dir=(1, 0, 0), z_dir=(0, 1, 0)).offset(SALIENTE_EXTRUIR3_START)):
        Circle(CROQUIS7_R)
    extrude(amount=SALIENTE_EXTRUIR3_DEPTH)

    # Croquis8 → Saliente-Extruir5 (add)
    with BuildSketch(Plane(origin=(0, 6, 0), x_dir=(1, 0, 0), z_dir=(0, 1, 0))):
        with Locations((0, -28)):
            Rectangle(CROQUIS8_W, CROQUIS8_H)
    extrude(amount=-SALIENTE_EXTRUIR5_DEPTH)

    # Croquis9 → Cortar-Extruir3 (cut)
    with BuildSketch(Plane(origin=(0, 6, 0), x_dir=(1, 0, 0), z_dir=(0, 1, 0))):
        with Locations((10.016784137, -39.238344099)):
            Rectangle(CROQUIS9_W, CROQUIS9_H)
    extrude(amount=-CORTAR_EXTRUIR3_DEPTH, mode=Mode.SUBTRACT)

    # Croquis10 → Cortar-Extruir4 (cut)
    with BuildSketch(Plane(origin=(0, 6, 0), x_dir=(1, 0, 0), z_dir=(0, 1, 0))):
        with Locations((-44.775150008, 2)):
            Rectangle(CROQUIS10_W, CROQUIS10_H)
    extrude(amount=-CORTAR_EXTRUIR4_DEPTH, mode=Mode.SUBTRACT)

    # Croquis11 → Cortar-Extruir5 (cut)
    with BuildSketch(Plane(origin=(0, 6, 0), x_dir=(1, 0, 0), z_dir=(0, 1, 0))):
        with Locations((43.542805468, 2)):
            Rectangle(CROQUIS11_W, CROQUIS11_H)
    extrude(amount=-CORTAR_EXTRUIR5_DEPTH, mode=Mode.SUBTRACT)

    # Croquis12 → Cortar-Extruir6 (cut)
    with BuildSketch(Plane(origin=(0, 6, 0), x_dir=(1, 0, 0), z_dir=(0, 1, 0))):
        with Locations((2.74907628, 50.797424065)):
            Rectangle(CROQUIS12_W, CROQUIS12_H)
    extrude(amount=-CORTAR_EXTRUIR6_DEPTH, mode=Mode.SUBTRACT)

    # Croquis13 → Saliente-Extruir7 (add)
    with BuildSketch(Plane(origin=(0, 6, 0), x_dir=(1, 0, 0), z_dir=(0, 1, 0))):
        Polygon((-34, 38), (-34, 14.467679055), (-4.360603755, 38), align=None)
    extrude(amount=-SALIENTE_EXTRUIR7_DEPTH)

    # Croquis14 → Saliente-Extruir8 (add)
    with BuildSketch(Plane(origin=(0, 6, 0), x_dir=(1, 0, 0), z_dir=(0, 1, 0)).offset(SALIENTE_EXTRUIR8_START)):
        with BuildLine():
            ThreePointArc((-29.440273385, -24.808129797), (-28.922869663, -25.409459094), (-28.39318582, -26))
            Line((-28.39318582, -26), (-31.716526987, -26))
            ThreePointArc((-31.716526987, -26), (-30.555022748, -25.448711519), (-29.440273385, -24.808129797))
        make_face()
        with BuildLine():
            ThreePointArc((-32.882189114, -20.023352369), (-33.437118608, -20.250964276), (-34, -20.458131994))
            Line((-34, -20.458131994), (-34, -24.390483775))
            ThreePointArc((-34, -24.390483775), (-32.928936598, -23.042479278), (-31.722453739, -21.814191019))
            ThreePointArc((-31.722453739, -21.814191019), (-32.314729541, -20.926807107), (-32.882189114, -20.023352369))
        make_face()
        with BuildLine():
            ThreePointArc((31.722453739, -21.814191019), (32.928936598, -23.042479278), (34, -24.390483775))
            Line((34, -24.390483775), (34, -20.458131994))
            ThreePointArc((34, -20.458131994), (33.437118608, -20.250964276), (32.882189114, -20.023352369))
            ThreePointArc((32.882189114, -20.023352369), (32.314729541, -20.926807107), (31.722453739, -21.814191019))
        make_face()
        with BuildLine():
            ThreePointArc((29.440273385, -24.808129797), (30.555022748, -25.448711519), (31.716526987, -26))
            Line((31.716526987, -26), (28.39318582, -26))
            ThreePointArc((28.39318582, -26), (28.922869663, -25.409459094), (29.440273385, -24.808129797))
        make_face()
        with BuildLine():
            ThreePointArc((31.25293357, 22.48170688), (32.600571454, 23.114088848), (34, 23.621665997))
            Line((34, 23.621665997), (34, 38))
            Line((34, 38), (16.729688427, 38))
            ThreePointArc((16.729688427, 38), (16.496871557, 36.466362568), (16.120198005, 34.961582019))
            ThreePointArc((16.120198005, 34.961582019), (17.082770038, 34.501477777), (18.032223288, 34.014877985))
            ThreePointArc((18.032223288, 34.014877985), (19.535891757, 35.806374372), (21.27911435, 37.36575026))
            ThreePointArc((21.27911435, 37.36575026), (21.973803216, 36.9614931), (22.660814722, 36.544322078))
            ThreePointArc((22.660814722, 36.544322078), (22.123655881, 34.267934907), (21.268136586, 32.091110407))
            ThreePointArc((21.268136586, 32.091110407), (22.1491931, 31.48946246), (23.013240049, 30.863632052))
            ThreePointArc((23.013240049, 30.863632052), (24.772756803, 32.404598945), (26.733587179, 33.679597927))
            ThreePointArc((26.733587179, 33.679597927), (27.35842502, 33.174034732), (27.973704184, 32.656880963))
            ThreePointArc((27.973704184, 32.656880963), (27.095351745, 30.489168998), (25.917568072, 28.468450366))
            ThreePointArc((25.917568072, 28.468450366), (26.696457848, 27.739360832), (27.45484597, 26.988968742))
            ThreePointArc((27.45484597, 26.988968742), (29.428969426, 28.243287183), (31.561447383, 29.204024365))
            ThreePointArc((31.561447383, 29.204024365), (32.101788529, 28.609005107), (32.63091373, 28.003990237))
            ThreePointArc((32.63091373, 28.003990237), (31.431955529, 25.995762808), (29.959513729, 24.178513977))
            ThreePointArc((29.959513729, 24.178513977), (30.617980251, 23.339072097), (31.25293357, 22.48170688))
        make_face()
        with BuildLine():
            Line((6.972489556, 38), (6.178430302, 38))
            ThreePointArc((6.178430302, 38), (6.553969362, 37.937033181), (6.928867276, 37.870355151))
            ThreePointArc((6.928867276, 37.870355151), (6.95054325, 37.935223056), (6.972489556, 38))
        make_face()
        with BuildLine():
            Line((13.587272636, 38), (10.70252361, 38))
            ThreePointArc((10.70252361, 38), (10.655947082, 37.505473216), (10.594415646, 37.012583781))
            ThreePointArc((10.594415646, 37.012583781), (11.615941325, 36.704807698), (12.628546495, 36.368844007))
            ThreePointArc((12.628546495, 36.368844007), (13.084366971, 37.198259369), (13.587272636, 38))
        make_face()
        with BuildLine():
            ThreePointArc((33.299233776, 19.321853713), (33.655528836, 18.694340849), (34, 18.060260269))
            Line((34, 18.060260269), (34, 19.90375037))
            ThreePointArc((34, 19.90375037), (33.65365753, 19.60793598), (33.299233776, 19.321853713))
        make_face()
    extrude(amount=SALIENTE_EXTRUIR8_DEPTH)

    # Croquis15 → Cortar-Extruir7 (cut)
    with BuildSketch(Plane.ZY.offset(34)):
        with Locations((-4, 1.5)):
            Rectangle(CROQUIS15_W, CROQUIS15_H)
    extrude(amount=-CORTAR_EXTRUIR7_DEPTH, mode=Mode.SUBTRACT)

    # Croquis16 → Saliente-Extruir9 (add)
    with BuildSketch(Plane(origin=(0, 3, 0), x_dir=(-1, 0, 0), z_dir=(0, -1, 0))):
        Polygon((34, -30), (34, 8), (19, 8), (19, 38), (-19, 38), (-19, 8), (-34, 8), (-34, -30), align=None)
        Polygon((30, -26), (30, 4), (15, 4), (15, 34), (-15, 34), (-15, 4), (-30, 4), (-30, -26), align=None, mode=Mode.SUBTRACT)
    extrude(amount=SALIENTE_EXTRUIR9_DEPTH)

    # Croquis17 → Cortar-Extruir8 (cut)
    with BuildSketch(Plane(origin=(0, 3, 0), x_dir=(-1, 0, 0), z_dir=(0, -1, 0))):
        with Locations((26.5, 23)):
            Rectangle(CROQUIS17_W, CROQUIS17_H)
    extrude(amount=-CORTAR_EXTRUIR8_DEPTH, mode=Mode.SUBTRACT)

    # Croquis18 → Cortar-Extruir10 (cut)
    with BuildSketch(Plane(origin=(0, 3, 0), x_dir=(-1, 0, 0), z_dir=(0, -1, 0))):
        with Locations((-30.610338634, 24.919510634)):
            Rectangle(CROQUIS18_W, CROQUIS18_H)
    extrude(amount=-CORTAR_EXTRUIR10_DEPTH, mode=Mode.SUBTRACT)

    # Croquis19 → Saliente-Extruir10 (add)
    with BuildSketch(Plane(origin=(0, 6, 0), x_dir=(1, 0, 0), z_dir=(0, 1, 0))):
        Polygon((-34, -30), (-34, 8), (-19, 8), (-19, 38), (19, 38), (19, 8), (34, 8), (34, -30), align=None)
        with Locations(Location((-20, 0, 0), (0, 0, 270))):
            Circle(CROQUIS19_R, mode=Mode.SUBTRACT)
        with Locations(Location((0, -20, 0), (0, 0, 270))):
            Circle(CROQUIS19_R, mode=Mode.SUBTRACT)
        with Locations(Location((20, 0, 0), (0, 0, 270))):
            Circle(CROQUIS19_R, mode=Mode.SUBTRACT)
        with Locations(Location((0, 20, 0), (0, 0, 270))):
            Circle(CROQUIS19_R, mode=Mode.SUBTRACT)
    extrude(amount=SALIENTE_EXTRUIR10_DEPTH)

    # Croquis20 → Cortar-Extruir12 (cut)
    with BuildSketch(Plane(origin=(0, 3, 0), x_dir=(-1, 0, 0), z_dir=(0, -1, 0))):
        with Locations(Location((0, -20, 0), (0, 0, 90))):
            Circle(CROQUIS20_R)
        with Locations(Location((-20, 0, 0), (0, 0, 90))):
            Circle(CROQUIS20_R)
        with Locations(Location((0, 20, 0), (0, 0, 90))):
            Circle(CROQUIS20_R)
        with Locations(Location((20, 0, 0), (0, 0, 90))):
            Circle(CROQUIS20_R)
    extrude(amount=-CORTAR_EXTRUIR12_DEPTH, mode=Mode.SUBTRACT)


solid = part.part
